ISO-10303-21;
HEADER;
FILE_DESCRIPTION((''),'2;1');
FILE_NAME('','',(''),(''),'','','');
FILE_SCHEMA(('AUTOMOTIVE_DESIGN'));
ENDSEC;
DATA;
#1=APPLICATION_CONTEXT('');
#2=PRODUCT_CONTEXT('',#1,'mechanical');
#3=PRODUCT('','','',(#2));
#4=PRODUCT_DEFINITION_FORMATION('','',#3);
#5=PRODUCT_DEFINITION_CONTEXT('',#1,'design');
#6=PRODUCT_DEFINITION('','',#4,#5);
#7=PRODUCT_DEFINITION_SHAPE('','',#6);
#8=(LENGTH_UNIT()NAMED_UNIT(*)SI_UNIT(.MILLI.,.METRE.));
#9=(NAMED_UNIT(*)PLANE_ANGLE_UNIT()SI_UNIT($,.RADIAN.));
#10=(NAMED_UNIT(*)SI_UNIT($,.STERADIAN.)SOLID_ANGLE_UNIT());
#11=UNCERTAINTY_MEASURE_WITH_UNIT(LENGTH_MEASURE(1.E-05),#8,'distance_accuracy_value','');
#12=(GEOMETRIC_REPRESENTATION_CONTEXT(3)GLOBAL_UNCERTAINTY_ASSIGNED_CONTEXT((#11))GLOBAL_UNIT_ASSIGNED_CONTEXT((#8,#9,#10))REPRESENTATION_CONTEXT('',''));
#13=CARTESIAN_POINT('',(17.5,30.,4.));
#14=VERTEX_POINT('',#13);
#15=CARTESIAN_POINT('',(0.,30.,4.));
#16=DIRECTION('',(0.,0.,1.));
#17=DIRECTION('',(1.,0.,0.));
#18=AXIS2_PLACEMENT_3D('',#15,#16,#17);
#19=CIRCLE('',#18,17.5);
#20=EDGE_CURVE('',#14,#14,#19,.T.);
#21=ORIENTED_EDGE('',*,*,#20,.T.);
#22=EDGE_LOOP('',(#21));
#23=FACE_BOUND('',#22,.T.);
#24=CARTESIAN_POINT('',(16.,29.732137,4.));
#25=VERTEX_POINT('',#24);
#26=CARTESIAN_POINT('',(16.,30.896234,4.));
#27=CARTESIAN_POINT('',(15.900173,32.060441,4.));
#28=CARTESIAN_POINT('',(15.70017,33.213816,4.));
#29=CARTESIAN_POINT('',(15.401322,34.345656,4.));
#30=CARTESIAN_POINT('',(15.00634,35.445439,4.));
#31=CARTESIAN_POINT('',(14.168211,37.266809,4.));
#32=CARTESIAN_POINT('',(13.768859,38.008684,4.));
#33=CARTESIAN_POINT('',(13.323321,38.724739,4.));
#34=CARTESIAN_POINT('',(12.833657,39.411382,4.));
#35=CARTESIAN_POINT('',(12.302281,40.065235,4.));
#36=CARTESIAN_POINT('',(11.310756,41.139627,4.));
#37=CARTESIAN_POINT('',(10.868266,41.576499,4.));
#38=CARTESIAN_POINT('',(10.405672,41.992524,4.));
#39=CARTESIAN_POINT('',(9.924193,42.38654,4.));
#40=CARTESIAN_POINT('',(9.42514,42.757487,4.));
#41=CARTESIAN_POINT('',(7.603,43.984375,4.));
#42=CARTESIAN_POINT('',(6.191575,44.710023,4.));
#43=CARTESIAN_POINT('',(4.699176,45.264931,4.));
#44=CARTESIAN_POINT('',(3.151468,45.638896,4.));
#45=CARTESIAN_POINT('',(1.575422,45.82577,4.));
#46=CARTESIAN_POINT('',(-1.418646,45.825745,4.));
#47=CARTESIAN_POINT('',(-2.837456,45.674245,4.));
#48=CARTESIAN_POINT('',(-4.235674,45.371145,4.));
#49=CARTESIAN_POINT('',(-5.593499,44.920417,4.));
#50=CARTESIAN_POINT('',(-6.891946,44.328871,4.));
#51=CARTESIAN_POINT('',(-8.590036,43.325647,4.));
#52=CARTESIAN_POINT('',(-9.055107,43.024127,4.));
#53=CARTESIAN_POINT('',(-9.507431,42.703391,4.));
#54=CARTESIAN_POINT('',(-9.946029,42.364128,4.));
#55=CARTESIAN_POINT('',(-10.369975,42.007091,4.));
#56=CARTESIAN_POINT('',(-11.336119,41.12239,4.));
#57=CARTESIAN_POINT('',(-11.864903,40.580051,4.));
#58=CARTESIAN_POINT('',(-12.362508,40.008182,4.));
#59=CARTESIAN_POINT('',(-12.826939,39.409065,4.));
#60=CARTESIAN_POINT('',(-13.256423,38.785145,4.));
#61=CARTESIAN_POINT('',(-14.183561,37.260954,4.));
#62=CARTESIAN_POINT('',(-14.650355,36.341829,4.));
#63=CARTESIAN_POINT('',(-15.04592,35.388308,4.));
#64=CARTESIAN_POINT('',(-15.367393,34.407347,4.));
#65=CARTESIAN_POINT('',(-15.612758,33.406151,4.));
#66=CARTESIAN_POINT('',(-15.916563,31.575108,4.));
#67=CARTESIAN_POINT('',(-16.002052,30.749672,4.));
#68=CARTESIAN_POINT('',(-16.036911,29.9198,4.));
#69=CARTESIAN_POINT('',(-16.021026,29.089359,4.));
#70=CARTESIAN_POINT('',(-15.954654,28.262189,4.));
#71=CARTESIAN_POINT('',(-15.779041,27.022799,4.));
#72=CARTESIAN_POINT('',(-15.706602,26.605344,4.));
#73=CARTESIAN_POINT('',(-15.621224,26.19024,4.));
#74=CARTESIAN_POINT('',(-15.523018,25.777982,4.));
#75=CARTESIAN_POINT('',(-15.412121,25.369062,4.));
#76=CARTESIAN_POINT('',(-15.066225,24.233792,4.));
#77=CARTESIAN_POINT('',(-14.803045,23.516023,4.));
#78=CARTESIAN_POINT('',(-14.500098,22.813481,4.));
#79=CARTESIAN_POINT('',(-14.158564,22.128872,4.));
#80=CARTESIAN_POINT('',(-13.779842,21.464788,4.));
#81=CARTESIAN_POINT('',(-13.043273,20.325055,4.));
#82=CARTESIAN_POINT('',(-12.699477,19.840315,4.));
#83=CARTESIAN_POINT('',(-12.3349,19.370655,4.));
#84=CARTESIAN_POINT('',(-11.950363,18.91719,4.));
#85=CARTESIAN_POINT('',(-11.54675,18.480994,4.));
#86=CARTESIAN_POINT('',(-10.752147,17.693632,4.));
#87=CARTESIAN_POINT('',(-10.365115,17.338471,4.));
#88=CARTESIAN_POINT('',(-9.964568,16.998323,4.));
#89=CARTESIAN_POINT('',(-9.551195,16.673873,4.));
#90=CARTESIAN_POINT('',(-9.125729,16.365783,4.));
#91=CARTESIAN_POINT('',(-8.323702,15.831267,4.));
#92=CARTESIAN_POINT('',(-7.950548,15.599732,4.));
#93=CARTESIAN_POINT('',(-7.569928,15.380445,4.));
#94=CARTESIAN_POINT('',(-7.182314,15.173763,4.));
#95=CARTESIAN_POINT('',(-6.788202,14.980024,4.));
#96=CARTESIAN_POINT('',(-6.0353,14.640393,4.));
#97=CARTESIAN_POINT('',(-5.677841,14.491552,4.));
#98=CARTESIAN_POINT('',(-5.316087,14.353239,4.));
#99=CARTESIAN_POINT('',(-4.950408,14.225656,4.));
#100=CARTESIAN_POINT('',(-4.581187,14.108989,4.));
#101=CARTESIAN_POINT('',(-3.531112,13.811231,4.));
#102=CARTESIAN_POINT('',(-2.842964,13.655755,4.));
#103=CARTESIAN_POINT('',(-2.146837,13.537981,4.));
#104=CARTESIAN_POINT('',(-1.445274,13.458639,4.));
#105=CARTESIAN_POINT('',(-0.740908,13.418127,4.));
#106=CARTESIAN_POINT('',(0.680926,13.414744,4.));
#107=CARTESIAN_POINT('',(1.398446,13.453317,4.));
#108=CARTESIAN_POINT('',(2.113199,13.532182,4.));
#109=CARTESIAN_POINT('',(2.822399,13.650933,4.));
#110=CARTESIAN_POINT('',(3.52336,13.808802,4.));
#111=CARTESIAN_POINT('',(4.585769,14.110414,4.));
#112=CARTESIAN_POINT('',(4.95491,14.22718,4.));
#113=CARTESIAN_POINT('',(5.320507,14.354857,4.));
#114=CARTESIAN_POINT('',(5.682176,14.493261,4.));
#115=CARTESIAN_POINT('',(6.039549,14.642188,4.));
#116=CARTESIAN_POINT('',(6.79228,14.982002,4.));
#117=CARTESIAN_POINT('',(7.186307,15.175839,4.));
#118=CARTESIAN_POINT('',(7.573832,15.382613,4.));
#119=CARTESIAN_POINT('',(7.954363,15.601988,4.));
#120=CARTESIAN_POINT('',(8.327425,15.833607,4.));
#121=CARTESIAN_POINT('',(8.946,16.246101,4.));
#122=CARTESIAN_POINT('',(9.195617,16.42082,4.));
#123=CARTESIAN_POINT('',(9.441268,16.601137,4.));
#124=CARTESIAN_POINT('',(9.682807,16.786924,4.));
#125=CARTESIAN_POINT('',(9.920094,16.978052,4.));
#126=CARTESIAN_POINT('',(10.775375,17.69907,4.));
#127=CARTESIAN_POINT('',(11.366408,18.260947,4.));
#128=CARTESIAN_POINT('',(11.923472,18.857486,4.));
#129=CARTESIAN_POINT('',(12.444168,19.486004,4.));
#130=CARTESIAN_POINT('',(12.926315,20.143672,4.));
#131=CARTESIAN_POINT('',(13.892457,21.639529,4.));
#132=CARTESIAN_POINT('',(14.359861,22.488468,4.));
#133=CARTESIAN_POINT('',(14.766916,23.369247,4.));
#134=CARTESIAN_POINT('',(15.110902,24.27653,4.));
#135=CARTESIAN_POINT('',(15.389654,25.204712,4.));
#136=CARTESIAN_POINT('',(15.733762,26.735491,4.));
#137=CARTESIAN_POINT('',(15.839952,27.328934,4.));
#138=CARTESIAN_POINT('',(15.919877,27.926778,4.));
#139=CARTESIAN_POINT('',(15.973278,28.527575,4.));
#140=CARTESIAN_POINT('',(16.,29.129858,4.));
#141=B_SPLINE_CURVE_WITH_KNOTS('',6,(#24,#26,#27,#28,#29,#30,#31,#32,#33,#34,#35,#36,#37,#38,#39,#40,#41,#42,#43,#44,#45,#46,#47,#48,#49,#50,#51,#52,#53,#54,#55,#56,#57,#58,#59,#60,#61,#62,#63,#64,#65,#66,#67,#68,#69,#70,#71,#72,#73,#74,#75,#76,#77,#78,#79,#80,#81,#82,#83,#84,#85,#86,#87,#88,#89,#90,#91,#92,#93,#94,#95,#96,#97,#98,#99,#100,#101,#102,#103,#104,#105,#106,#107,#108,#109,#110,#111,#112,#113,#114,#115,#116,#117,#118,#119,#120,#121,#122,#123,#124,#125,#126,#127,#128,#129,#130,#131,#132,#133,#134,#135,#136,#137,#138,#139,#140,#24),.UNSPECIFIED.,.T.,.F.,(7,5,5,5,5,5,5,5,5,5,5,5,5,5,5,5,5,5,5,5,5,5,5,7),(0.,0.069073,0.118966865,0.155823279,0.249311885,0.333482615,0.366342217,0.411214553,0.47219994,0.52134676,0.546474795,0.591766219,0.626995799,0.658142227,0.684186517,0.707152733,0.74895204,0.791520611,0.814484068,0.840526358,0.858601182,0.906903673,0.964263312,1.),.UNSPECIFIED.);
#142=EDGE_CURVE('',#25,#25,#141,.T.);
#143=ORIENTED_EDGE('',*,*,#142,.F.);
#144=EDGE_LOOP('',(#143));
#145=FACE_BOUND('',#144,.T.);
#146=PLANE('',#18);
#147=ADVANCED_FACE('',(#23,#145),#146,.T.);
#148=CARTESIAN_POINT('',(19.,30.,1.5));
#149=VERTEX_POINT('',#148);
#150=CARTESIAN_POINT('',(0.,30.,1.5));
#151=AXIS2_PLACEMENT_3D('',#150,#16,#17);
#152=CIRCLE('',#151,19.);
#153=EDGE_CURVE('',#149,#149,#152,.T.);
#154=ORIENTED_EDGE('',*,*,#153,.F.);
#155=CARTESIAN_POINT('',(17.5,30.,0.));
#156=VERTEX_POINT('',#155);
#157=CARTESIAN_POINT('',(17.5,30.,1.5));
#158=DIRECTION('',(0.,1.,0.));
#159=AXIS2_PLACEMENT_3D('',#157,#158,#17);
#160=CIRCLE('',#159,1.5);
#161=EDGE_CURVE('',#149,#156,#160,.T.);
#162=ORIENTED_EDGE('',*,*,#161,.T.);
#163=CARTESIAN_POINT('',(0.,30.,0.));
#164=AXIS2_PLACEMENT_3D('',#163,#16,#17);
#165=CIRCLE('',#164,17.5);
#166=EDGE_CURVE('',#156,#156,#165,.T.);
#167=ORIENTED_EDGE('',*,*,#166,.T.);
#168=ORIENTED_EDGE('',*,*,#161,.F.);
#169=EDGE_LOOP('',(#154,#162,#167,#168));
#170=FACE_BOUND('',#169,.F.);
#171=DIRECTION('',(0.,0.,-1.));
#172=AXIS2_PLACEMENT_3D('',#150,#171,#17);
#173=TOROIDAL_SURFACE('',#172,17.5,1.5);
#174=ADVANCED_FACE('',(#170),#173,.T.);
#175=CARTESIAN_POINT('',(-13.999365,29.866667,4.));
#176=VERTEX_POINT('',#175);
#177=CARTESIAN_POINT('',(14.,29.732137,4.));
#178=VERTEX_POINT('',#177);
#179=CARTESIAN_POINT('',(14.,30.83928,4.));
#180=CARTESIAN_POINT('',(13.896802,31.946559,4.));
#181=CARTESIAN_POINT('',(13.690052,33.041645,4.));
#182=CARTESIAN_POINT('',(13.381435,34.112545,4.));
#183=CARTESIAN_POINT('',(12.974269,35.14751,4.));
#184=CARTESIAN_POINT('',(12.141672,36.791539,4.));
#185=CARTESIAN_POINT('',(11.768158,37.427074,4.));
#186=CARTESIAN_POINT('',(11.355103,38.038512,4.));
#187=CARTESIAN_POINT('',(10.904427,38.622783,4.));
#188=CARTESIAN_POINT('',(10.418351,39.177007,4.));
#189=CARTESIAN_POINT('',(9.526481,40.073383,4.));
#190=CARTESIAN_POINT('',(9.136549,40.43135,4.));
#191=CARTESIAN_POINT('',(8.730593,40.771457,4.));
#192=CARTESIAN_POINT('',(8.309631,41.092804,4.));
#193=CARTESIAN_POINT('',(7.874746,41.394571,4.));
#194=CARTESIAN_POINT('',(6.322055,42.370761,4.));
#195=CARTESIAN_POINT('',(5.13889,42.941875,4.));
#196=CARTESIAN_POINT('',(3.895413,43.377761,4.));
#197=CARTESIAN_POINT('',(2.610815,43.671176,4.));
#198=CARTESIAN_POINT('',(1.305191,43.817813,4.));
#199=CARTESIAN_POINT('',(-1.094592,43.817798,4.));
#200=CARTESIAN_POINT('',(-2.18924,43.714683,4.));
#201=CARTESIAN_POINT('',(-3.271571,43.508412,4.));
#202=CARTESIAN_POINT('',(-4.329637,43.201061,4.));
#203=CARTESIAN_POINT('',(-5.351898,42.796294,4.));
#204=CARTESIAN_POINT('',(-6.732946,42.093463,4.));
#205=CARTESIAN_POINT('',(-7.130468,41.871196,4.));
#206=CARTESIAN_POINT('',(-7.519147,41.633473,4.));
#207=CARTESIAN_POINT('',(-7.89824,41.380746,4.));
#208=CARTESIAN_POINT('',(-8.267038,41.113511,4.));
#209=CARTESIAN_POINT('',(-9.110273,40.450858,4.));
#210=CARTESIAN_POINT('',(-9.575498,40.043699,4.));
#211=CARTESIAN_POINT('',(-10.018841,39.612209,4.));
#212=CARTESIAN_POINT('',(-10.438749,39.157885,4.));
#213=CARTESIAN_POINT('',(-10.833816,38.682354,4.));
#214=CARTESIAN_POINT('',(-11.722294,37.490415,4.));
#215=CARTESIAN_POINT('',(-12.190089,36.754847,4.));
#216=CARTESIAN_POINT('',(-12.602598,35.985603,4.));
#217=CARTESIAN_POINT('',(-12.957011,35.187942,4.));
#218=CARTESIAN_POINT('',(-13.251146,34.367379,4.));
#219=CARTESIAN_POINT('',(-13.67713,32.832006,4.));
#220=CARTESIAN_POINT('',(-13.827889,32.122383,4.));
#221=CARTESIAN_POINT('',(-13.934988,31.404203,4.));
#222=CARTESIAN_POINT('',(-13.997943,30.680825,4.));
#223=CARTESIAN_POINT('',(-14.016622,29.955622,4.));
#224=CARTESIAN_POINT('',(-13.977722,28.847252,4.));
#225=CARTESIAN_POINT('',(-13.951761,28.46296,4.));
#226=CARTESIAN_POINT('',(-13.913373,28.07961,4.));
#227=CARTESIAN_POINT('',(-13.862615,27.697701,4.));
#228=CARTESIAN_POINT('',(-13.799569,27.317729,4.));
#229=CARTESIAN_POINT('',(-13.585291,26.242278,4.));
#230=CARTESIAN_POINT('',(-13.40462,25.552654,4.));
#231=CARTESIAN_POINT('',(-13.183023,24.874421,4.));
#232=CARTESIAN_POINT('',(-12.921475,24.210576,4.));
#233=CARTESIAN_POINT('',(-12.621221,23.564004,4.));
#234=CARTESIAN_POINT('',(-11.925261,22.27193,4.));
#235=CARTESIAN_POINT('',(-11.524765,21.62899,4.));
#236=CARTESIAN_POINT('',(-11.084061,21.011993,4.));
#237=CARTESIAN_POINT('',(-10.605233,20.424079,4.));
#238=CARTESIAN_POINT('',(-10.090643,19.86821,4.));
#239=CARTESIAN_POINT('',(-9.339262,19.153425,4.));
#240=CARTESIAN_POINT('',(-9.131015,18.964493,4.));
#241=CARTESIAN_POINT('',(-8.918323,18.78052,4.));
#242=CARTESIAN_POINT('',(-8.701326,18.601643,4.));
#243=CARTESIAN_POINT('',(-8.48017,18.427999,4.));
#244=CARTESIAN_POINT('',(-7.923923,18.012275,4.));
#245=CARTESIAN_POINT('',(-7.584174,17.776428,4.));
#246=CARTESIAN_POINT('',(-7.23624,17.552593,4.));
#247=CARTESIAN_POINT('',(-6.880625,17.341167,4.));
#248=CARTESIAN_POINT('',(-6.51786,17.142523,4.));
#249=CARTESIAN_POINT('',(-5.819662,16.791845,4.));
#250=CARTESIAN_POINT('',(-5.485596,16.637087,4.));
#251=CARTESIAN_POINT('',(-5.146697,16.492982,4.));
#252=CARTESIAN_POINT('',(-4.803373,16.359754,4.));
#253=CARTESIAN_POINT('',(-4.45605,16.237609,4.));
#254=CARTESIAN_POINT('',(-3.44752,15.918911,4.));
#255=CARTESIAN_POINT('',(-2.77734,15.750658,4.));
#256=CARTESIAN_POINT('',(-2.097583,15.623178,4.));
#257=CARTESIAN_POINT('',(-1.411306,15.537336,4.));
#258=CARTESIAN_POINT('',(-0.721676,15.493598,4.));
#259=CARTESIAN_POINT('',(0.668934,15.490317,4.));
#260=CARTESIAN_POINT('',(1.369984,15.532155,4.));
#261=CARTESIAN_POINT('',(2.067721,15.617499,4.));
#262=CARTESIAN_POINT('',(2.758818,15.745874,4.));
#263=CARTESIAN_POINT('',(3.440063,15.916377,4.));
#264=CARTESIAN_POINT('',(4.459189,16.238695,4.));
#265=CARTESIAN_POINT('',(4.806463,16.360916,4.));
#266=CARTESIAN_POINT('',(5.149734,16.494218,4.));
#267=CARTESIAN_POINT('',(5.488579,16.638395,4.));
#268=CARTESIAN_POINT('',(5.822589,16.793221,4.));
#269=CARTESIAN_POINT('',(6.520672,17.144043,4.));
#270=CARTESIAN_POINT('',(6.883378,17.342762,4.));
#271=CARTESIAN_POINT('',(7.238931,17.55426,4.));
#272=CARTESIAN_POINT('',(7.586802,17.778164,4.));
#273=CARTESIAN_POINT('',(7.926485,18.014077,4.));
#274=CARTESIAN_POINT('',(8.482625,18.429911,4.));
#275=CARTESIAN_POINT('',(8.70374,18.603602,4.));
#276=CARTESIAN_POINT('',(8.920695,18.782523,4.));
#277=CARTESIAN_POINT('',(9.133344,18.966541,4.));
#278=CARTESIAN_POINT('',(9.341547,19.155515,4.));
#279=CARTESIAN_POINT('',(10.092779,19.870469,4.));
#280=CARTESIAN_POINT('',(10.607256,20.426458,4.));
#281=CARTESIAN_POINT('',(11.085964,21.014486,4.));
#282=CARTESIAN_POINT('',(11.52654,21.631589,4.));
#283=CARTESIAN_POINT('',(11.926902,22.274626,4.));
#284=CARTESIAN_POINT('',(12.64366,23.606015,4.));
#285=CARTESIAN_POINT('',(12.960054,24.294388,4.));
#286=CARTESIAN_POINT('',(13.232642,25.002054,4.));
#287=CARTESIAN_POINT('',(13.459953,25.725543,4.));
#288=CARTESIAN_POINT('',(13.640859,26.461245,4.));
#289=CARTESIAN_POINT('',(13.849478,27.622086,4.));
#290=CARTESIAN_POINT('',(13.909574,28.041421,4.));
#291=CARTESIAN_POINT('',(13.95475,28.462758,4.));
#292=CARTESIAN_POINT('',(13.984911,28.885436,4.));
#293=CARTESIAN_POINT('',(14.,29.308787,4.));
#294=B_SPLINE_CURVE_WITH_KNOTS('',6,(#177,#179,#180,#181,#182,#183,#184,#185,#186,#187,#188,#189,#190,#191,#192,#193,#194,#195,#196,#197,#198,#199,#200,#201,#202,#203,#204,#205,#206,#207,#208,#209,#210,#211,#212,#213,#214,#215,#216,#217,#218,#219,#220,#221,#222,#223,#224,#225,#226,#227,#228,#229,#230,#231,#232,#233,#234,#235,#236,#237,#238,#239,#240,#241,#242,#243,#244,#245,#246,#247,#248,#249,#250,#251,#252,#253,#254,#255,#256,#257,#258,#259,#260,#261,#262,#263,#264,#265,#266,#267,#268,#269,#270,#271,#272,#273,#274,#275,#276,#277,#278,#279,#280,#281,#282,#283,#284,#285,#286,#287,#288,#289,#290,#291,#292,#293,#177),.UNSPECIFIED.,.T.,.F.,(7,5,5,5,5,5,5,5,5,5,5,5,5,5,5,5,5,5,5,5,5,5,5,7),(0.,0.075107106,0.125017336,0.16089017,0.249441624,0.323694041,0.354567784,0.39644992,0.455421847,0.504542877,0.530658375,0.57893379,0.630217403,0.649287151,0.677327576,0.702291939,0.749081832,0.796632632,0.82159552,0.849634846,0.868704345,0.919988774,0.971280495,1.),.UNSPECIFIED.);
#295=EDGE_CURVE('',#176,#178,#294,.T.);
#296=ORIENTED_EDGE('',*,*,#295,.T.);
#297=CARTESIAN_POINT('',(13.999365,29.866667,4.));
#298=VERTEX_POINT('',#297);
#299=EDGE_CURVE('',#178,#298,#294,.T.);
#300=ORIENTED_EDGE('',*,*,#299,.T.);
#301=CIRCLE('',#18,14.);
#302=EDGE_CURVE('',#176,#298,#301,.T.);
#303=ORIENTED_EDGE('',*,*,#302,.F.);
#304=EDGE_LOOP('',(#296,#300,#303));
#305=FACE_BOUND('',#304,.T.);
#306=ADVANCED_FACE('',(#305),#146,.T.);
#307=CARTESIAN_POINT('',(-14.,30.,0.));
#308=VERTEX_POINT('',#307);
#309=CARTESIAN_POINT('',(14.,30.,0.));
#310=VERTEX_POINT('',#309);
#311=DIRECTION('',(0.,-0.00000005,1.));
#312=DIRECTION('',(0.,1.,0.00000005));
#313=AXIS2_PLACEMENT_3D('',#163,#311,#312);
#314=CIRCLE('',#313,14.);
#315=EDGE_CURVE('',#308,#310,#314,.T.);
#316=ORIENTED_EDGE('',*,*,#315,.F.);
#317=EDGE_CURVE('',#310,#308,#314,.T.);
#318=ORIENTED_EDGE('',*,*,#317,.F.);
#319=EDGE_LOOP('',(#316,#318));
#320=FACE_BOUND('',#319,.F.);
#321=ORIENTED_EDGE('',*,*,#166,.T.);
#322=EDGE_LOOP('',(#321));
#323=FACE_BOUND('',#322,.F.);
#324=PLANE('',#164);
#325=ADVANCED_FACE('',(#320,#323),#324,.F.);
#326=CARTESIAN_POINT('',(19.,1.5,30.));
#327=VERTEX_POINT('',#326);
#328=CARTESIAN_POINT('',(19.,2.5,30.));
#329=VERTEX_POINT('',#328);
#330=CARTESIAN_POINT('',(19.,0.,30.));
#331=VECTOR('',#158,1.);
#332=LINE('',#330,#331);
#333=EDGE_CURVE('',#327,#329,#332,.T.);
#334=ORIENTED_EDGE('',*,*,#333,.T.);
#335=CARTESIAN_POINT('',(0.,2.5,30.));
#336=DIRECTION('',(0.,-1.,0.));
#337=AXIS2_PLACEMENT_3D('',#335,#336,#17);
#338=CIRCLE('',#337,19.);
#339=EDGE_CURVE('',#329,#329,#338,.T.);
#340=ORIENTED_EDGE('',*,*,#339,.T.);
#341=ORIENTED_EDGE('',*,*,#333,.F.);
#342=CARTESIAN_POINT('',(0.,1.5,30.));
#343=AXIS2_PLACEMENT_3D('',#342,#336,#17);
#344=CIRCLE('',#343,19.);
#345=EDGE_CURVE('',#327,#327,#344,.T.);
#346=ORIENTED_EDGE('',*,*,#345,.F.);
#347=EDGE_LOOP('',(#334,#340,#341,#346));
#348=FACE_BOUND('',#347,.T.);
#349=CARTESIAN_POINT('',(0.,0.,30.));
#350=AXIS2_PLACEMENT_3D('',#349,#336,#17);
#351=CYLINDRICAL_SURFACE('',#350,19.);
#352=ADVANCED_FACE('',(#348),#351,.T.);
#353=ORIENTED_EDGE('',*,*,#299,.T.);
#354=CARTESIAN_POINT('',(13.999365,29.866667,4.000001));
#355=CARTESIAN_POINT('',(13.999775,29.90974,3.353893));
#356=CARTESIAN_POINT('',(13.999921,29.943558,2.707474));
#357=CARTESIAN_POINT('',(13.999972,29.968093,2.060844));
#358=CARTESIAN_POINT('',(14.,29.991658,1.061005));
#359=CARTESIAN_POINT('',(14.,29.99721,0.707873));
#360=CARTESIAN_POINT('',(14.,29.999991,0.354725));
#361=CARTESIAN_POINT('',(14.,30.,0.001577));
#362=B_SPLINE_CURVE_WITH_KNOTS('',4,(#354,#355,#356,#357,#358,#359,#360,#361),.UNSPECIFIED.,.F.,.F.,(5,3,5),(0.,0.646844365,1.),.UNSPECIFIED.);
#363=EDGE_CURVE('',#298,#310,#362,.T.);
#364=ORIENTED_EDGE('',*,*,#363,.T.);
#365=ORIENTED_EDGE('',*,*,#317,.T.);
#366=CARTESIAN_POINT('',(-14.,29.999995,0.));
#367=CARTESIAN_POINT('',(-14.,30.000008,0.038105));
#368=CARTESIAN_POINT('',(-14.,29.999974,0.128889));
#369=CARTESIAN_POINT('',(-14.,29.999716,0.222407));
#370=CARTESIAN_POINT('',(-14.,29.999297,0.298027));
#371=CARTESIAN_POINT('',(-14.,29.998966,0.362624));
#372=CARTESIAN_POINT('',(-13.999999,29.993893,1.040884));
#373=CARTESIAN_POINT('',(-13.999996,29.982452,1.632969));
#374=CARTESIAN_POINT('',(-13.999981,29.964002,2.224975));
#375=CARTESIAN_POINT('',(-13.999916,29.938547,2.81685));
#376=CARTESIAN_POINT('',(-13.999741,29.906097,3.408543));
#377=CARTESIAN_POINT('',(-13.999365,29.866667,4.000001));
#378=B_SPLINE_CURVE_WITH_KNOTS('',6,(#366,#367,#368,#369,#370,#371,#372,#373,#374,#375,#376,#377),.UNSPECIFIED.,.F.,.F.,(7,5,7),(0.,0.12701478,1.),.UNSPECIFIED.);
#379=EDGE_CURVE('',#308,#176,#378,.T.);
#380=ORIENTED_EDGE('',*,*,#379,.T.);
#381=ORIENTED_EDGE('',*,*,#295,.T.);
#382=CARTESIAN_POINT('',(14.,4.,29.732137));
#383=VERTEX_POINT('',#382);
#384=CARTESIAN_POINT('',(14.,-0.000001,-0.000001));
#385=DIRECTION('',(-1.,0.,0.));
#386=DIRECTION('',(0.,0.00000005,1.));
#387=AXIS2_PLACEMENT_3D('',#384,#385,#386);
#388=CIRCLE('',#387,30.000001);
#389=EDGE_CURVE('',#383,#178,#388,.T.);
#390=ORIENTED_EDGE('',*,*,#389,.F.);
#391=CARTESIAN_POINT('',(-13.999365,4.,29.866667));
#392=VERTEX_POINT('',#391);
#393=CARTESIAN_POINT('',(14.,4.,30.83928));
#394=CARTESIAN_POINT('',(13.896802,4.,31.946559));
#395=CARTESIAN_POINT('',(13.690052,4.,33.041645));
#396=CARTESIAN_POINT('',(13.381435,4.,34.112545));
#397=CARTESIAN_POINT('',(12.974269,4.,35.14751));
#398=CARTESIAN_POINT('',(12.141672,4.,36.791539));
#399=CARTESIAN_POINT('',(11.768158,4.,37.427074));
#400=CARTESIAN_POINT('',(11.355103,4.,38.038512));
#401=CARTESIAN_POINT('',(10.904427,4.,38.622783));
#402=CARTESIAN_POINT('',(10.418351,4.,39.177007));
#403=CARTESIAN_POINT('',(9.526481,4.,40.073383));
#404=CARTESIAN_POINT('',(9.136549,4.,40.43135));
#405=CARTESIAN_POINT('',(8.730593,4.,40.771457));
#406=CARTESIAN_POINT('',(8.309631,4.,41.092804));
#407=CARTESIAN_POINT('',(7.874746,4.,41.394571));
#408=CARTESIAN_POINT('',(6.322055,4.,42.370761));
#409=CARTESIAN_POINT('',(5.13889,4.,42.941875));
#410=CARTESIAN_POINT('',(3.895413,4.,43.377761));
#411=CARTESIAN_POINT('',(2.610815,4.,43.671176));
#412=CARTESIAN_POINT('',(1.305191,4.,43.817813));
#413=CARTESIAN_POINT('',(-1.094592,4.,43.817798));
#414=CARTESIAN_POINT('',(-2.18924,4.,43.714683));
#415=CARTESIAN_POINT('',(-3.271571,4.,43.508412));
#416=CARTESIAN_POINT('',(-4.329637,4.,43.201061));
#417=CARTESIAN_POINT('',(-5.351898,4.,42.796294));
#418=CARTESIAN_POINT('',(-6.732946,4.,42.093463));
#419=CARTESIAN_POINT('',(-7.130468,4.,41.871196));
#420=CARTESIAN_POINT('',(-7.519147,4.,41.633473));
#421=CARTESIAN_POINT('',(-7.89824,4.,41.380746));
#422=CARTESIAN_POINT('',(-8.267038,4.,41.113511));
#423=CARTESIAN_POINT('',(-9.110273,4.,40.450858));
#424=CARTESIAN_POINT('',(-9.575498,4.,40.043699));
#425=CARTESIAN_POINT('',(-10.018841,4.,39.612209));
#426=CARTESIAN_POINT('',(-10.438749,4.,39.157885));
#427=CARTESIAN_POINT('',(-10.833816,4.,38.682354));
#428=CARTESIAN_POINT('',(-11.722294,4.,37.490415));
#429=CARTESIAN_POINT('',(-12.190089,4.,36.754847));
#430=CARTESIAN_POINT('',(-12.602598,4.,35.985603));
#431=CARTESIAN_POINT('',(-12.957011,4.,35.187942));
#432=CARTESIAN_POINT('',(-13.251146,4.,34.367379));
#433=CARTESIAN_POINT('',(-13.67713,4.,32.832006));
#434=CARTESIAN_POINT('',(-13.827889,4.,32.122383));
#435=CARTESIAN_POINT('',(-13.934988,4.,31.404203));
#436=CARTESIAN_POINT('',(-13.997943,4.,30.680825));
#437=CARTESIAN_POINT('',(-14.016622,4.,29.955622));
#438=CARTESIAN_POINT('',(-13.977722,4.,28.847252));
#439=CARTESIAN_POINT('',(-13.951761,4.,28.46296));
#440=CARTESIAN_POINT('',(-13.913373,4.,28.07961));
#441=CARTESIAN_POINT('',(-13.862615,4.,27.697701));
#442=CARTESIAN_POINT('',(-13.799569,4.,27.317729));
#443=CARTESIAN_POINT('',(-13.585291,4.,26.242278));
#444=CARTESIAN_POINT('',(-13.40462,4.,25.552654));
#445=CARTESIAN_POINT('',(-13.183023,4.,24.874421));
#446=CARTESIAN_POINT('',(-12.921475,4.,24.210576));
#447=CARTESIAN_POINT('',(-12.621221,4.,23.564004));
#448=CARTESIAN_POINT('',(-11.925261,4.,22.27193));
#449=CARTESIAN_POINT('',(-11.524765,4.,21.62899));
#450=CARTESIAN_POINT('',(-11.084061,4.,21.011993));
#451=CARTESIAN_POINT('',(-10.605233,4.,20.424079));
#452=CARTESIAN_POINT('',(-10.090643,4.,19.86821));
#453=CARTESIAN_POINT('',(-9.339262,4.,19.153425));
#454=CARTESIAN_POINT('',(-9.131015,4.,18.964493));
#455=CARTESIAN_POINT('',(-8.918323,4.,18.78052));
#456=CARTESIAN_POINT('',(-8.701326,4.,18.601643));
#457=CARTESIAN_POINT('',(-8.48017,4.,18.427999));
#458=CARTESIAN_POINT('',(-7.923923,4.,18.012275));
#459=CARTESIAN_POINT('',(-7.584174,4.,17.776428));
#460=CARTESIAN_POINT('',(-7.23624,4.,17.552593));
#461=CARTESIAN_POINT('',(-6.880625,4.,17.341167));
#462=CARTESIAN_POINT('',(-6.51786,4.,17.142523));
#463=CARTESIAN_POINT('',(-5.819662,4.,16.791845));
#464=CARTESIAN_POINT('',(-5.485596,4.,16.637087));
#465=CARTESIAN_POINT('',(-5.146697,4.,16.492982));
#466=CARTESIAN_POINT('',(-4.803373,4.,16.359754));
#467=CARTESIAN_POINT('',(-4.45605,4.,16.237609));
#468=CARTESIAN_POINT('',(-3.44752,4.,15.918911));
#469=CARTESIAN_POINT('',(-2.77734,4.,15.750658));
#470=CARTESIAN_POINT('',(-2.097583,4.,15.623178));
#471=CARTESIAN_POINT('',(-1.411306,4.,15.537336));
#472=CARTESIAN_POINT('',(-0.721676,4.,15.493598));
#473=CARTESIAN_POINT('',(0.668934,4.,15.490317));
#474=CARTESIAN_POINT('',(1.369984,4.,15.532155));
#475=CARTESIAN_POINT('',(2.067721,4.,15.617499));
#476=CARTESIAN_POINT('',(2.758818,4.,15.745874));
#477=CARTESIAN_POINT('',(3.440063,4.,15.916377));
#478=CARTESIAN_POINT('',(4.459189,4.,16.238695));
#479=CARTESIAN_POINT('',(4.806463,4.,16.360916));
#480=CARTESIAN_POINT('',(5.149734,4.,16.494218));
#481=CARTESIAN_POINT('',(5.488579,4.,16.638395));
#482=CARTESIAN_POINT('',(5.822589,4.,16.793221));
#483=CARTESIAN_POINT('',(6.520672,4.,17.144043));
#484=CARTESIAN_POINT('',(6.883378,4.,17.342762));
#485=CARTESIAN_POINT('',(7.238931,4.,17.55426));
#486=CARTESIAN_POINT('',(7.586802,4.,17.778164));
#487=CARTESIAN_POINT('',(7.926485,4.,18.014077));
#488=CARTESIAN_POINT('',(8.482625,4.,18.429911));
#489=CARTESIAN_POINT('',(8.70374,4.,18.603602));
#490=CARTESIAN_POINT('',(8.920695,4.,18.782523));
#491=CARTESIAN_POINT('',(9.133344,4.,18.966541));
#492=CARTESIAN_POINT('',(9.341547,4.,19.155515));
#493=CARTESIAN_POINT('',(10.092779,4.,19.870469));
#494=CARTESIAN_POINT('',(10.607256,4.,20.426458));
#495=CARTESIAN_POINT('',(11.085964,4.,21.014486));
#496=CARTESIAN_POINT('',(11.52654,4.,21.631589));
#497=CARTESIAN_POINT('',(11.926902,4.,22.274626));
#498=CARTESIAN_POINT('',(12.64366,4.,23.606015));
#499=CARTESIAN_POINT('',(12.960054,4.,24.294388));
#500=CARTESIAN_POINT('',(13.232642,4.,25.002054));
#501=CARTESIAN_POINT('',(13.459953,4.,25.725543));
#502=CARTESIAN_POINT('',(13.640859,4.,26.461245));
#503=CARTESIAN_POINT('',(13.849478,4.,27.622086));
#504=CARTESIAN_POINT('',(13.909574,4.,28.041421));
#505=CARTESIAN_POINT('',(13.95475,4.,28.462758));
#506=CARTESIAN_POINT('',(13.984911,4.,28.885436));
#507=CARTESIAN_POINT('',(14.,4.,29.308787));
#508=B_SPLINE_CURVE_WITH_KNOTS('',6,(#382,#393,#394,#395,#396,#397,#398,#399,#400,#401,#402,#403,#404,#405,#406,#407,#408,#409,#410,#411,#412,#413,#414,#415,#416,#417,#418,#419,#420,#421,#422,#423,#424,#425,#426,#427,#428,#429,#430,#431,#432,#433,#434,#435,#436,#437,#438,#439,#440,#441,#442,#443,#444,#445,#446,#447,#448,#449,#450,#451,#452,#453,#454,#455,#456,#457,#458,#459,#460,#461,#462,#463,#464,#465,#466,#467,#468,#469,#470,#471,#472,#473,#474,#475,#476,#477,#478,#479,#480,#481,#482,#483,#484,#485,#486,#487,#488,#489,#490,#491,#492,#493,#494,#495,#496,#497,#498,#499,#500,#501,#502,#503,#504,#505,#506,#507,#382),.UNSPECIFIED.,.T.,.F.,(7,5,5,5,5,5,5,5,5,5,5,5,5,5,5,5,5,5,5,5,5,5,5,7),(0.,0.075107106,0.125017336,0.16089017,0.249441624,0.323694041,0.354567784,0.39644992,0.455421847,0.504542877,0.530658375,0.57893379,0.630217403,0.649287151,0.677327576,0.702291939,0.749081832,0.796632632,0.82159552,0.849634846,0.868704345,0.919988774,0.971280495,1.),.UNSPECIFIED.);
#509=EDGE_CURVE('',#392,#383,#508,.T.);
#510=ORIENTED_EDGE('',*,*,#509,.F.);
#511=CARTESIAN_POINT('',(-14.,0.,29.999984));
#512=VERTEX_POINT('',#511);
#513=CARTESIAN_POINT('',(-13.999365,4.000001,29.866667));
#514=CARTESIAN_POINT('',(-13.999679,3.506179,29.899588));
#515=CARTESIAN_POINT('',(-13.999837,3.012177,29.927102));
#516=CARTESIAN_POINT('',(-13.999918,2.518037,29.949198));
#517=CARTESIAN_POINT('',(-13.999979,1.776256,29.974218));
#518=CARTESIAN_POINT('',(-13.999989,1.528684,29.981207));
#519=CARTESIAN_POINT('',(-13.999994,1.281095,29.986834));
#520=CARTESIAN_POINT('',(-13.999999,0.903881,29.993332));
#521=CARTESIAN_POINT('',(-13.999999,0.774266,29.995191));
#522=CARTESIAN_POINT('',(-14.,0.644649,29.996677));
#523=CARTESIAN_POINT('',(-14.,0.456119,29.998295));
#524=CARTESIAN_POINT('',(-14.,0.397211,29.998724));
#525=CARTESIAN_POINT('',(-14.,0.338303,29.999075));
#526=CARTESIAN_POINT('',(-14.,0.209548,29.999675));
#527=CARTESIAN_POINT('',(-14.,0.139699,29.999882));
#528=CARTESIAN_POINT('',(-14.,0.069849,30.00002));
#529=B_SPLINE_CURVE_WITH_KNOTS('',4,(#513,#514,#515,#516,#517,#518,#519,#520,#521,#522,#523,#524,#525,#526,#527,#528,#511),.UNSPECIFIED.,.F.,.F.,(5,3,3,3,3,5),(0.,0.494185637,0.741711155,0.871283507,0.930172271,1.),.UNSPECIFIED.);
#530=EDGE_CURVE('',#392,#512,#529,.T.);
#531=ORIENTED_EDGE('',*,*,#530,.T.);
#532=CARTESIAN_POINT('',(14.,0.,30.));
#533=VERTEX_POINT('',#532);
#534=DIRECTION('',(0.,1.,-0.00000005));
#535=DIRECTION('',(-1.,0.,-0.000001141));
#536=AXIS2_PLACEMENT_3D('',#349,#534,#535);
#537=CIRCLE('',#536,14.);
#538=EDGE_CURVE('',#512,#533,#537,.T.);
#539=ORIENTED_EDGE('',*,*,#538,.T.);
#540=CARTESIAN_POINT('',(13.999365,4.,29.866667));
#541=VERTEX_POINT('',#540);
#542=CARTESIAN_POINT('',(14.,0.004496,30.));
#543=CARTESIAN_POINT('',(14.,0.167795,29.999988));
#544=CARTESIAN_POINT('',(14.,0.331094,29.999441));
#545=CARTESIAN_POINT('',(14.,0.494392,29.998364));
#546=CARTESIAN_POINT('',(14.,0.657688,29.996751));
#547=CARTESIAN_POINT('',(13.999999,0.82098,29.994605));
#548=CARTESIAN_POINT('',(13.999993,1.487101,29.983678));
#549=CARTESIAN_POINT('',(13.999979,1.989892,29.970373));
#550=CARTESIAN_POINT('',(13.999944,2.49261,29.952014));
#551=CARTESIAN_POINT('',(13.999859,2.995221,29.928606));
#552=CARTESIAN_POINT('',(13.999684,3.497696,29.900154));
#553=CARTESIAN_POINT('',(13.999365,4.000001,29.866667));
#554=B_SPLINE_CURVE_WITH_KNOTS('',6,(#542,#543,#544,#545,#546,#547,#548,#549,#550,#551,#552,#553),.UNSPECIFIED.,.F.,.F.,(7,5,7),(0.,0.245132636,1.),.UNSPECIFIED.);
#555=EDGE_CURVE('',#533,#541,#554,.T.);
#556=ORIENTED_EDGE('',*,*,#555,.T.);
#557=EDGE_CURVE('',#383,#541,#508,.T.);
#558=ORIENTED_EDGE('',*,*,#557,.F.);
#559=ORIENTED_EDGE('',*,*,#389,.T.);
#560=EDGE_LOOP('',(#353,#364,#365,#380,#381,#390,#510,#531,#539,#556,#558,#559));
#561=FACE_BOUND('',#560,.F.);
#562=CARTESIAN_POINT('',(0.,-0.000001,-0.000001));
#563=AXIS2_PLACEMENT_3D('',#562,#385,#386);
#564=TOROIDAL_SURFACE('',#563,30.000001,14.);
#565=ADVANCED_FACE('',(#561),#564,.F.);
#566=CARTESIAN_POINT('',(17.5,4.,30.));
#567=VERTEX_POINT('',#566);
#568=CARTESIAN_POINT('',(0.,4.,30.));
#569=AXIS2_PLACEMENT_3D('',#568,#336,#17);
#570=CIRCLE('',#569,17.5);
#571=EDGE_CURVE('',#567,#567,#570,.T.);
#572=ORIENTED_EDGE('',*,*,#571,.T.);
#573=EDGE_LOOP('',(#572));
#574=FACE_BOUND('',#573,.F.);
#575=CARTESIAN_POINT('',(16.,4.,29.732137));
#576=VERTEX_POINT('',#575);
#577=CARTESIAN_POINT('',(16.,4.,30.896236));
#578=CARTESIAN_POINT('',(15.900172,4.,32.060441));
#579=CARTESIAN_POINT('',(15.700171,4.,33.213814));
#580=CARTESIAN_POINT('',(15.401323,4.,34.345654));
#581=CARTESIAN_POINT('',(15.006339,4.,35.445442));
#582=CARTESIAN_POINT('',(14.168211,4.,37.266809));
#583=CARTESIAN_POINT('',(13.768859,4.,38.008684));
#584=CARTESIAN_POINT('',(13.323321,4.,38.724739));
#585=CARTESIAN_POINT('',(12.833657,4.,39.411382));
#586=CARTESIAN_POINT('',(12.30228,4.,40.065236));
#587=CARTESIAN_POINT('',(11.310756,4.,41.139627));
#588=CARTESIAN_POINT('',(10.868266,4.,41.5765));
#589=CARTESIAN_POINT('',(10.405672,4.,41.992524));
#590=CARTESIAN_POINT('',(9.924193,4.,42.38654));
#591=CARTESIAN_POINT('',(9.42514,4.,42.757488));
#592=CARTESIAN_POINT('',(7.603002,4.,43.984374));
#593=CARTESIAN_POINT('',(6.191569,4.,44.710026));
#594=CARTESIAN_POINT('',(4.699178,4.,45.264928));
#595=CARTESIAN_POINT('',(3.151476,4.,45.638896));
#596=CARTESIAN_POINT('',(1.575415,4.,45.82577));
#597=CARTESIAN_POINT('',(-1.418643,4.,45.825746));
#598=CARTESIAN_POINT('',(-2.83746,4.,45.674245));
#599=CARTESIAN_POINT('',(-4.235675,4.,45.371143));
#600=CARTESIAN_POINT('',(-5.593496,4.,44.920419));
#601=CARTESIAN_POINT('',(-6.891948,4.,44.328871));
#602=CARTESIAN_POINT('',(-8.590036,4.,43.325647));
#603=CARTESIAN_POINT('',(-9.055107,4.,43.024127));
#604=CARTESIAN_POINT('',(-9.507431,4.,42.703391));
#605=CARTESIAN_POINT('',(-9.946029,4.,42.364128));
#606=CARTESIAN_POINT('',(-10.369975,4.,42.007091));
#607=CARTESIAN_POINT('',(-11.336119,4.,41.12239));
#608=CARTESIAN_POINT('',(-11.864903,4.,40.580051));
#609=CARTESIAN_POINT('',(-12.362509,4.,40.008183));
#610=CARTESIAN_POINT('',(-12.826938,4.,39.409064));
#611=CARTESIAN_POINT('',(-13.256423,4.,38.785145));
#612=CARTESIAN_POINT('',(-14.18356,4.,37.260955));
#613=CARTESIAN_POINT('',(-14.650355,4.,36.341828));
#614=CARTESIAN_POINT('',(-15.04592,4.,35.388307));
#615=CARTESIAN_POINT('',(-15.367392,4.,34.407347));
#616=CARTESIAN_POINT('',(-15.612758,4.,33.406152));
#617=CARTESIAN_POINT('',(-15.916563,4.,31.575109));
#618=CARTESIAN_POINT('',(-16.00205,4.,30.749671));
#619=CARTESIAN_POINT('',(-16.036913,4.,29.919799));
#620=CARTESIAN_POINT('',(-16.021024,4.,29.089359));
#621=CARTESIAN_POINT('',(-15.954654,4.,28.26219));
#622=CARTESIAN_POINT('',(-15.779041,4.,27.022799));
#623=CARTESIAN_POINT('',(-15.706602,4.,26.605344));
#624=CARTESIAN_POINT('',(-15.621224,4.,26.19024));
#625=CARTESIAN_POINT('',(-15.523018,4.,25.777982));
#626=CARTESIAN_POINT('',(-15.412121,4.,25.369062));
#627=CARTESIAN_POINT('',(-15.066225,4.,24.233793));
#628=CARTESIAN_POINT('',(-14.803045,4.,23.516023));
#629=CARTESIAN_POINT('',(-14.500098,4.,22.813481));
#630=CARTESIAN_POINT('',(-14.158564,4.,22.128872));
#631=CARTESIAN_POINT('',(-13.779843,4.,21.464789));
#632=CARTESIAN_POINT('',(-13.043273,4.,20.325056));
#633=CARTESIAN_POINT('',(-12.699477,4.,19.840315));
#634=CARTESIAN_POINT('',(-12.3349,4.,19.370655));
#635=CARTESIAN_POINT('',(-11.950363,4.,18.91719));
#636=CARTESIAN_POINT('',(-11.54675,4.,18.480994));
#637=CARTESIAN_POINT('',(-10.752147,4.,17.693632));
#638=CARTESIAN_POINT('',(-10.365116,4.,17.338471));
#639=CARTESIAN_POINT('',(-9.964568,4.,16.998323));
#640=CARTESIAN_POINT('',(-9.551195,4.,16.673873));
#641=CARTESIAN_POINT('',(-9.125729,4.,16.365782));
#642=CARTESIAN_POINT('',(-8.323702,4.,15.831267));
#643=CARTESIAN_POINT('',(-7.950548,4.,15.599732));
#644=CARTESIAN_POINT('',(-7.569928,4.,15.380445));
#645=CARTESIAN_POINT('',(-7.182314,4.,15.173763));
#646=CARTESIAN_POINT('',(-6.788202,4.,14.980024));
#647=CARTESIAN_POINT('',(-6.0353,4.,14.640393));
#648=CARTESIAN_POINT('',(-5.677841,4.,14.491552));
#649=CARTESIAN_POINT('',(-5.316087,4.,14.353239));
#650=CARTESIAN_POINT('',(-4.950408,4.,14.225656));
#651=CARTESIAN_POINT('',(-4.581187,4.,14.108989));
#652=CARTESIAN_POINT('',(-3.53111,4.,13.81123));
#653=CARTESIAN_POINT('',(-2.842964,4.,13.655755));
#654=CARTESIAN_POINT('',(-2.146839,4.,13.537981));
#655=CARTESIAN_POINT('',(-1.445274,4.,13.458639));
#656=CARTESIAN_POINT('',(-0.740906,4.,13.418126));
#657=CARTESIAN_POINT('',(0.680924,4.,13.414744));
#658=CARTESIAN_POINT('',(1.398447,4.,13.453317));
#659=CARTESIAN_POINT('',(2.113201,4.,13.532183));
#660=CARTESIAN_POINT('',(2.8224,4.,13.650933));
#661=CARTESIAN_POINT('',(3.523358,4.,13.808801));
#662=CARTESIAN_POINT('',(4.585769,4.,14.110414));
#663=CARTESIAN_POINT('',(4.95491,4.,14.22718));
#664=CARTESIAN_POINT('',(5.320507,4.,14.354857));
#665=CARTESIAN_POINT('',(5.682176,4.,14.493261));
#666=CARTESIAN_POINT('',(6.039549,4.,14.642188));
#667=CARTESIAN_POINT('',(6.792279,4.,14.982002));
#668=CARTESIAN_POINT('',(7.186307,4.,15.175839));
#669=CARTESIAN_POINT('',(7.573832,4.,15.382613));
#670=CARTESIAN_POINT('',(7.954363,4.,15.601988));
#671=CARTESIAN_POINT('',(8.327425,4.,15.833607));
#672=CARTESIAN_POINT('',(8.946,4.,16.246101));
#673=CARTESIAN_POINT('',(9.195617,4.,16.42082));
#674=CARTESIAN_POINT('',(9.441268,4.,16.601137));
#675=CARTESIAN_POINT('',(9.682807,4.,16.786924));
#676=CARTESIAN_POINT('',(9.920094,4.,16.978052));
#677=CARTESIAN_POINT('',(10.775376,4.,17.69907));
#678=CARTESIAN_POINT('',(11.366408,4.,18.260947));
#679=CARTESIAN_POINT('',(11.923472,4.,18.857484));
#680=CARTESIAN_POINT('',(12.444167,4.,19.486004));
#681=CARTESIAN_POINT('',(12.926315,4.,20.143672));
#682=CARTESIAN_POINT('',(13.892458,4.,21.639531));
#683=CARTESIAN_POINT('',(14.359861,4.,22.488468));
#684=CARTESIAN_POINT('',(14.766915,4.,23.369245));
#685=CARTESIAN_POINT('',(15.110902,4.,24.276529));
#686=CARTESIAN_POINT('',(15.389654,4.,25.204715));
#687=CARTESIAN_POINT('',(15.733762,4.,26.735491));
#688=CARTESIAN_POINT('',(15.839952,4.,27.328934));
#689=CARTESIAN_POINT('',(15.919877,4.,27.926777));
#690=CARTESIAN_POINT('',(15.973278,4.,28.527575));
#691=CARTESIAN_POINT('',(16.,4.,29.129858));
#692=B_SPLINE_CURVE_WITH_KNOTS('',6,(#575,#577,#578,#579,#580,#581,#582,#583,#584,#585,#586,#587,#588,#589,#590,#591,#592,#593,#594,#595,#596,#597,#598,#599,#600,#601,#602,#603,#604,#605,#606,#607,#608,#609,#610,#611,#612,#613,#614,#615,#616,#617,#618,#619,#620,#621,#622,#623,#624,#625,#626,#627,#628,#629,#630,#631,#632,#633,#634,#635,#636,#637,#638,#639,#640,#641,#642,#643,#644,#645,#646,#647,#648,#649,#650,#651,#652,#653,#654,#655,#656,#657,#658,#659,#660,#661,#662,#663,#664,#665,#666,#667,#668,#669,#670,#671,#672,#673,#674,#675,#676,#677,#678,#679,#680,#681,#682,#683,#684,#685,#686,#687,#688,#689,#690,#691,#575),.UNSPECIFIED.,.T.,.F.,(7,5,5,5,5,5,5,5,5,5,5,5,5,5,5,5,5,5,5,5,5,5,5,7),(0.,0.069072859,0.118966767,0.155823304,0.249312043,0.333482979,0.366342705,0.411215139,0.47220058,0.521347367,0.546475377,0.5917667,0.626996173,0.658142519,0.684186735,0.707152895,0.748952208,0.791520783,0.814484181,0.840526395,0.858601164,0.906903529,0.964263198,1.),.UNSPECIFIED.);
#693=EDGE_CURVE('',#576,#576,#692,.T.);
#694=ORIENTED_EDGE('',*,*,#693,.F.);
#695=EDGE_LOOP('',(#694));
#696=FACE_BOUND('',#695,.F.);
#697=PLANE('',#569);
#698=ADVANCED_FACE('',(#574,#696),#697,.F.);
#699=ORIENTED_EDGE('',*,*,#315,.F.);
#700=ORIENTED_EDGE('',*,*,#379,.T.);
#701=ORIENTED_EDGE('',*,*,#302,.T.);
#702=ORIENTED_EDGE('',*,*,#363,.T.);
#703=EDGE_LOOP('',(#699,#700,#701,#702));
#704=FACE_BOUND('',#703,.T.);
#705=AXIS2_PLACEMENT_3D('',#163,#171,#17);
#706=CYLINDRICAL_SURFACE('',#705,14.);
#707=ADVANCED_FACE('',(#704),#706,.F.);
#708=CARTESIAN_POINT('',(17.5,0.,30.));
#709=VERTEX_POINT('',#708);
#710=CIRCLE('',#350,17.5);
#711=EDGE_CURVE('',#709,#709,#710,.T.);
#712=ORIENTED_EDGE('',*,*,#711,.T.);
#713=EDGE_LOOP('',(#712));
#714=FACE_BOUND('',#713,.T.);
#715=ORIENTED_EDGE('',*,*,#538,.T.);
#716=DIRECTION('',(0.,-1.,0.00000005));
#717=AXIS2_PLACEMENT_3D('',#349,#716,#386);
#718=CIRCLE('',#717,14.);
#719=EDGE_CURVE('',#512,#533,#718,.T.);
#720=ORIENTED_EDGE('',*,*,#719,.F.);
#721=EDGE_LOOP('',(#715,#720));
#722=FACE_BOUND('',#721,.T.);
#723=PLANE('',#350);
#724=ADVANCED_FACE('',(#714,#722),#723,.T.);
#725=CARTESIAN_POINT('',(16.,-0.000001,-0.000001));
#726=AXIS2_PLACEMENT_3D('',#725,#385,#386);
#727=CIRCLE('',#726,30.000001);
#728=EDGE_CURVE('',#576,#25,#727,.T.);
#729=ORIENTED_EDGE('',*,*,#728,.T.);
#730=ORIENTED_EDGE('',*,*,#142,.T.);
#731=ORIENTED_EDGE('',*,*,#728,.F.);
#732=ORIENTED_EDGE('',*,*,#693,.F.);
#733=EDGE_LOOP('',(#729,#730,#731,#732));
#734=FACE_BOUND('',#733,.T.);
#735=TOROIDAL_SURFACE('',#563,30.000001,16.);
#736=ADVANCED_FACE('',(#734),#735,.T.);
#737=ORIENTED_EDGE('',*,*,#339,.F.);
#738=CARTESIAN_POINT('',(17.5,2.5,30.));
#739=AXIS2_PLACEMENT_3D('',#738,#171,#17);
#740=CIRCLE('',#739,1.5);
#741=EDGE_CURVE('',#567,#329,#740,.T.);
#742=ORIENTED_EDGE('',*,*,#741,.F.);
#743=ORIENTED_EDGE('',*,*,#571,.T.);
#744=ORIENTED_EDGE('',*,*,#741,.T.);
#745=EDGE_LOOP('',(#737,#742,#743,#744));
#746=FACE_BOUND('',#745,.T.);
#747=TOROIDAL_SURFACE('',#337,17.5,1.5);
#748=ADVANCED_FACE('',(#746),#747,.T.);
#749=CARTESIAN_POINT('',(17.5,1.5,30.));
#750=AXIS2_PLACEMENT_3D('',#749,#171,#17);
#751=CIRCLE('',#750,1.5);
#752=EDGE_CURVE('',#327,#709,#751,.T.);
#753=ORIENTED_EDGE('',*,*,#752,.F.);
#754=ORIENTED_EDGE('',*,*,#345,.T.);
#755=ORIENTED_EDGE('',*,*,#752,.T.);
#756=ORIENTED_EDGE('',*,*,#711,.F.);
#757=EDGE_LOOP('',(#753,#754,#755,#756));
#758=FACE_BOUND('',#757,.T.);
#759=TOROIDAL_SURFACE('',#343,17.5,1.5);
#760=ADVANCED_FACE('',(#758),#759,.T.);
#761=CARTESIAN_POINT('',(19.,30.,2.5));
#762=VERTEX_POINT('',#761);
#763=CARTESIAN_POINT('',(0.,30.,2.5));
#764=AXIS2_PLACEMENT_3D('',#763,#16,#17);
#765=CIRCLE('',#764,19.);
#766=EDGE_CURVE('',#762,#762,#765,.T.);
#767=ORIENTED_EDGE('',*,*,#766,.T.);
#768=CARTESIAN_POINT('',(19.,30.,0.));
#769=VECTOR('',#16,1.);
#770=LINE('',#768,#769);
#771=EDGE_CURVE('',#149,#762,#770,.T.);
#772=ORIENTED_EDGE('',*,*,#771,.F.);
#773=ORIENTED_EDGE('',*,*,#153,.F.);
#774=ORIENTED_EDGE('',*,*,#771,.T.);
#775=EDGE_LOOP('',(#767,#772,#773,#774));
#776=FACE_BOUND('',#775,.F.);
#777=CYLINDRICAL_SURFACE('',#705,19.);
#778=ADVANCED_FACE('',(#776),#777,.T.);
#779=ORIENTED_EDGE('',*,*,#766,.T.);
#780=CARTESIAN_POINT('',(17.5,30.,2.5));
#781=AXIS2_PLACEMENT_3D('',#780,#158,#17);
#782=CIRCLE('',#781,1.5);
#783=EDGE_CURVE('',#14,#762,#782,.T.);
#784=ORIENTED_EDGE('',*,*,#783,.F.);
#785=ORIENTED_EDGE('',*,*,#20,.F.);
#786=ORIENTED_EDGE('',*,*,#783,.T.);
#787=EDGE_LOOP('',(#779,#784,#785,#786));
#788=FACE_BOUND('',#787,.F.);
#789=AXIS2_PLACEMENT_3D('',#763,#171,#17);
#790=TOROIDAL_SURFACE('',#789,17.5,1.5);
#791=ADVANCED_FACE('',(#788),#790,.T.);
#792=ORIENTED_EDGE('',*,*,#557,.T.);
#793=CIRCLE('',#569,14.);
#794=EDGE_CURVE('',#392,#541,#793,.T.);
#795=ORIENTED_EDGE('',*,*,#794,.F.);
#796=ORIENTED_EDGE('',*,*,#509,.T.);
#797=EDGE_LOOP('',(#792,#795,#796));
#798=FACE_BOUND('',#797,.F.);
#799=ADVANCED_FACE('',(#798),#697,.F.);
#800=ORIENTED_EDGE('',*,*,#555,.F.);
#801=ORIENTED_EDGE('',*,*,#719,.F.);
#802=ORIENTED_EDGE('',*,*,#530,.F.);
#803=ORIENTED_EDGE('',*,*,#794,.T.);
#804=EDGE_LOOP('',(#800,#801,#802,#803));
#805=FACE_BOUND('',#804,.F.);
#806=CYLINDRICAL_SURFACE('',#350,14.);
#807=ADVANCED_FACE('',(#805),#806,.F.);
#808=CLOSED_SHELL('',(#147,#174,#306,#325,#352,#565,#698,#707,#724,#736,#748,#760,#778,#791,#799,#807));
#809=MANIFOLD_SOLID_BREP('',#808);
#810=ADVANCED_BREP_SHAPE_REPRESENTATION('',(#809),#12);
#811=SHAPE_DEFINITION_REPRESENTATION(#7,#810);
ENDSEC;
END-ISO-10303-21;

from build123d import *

# Parameters (mm, degrees)
F1_R     = 16
F1_R_2   = 14
F3_R     = 19
F3_R_2   = 14
F4_DEPTH = 4
F5_R     = 19
F5_R_2   = 14
F6_DEPTH = 4
F7_R     = 1.5


with BuildPart() as f2:
    # F2: sweep along a path in F0
    with BuildLine(Plane.YZ) as f2_path:
        ThreePointArc((0, 30), (21.213203, 21.213203), (30, 0))
    # F1 (on Top) → F2 (sweep)
    with BuildSketch(Plane.XY):
        with Locations((0, 30)):
            Circle(F1_R)
        with Locations((0, 30)):
            Circle(F1_R_2, mode=Mode.SUBTRACT)
    sweep(path=f2_path.line)

    # F3 (on Front) → F4 (join)
    with BuildSketch(Plane.XZ):
        with Locations((0, 30)):
            Circle(F3_R)
        with Locations((0, 30)):
            Circle(F3_R_2, mode=Mode.SUBTRACT)
    extrude(amount=-F4_DEPTH)

    # F5 (on Top) → F6 (join)
    with BuildSketch(Plane.XY):
        with Locations((0, 30)):
            Circle(F5_R)
        with Locations((0, 30)):
            Circle(F5_R_2, mode=Mode.SUBTRACT)
    extrude(amount=F6_DEPTH)

    # F7
    f7_edges = [f2.edges().sort_by_distance(p)[0] for p in [
        (-19, 4, 30),
        (-19, 0, 30),
        (-19, 30, 4),
        (-19, 30, 0),
    ]]
    fillet(f7_edges, radius=F7_R)


solid = f2.part
